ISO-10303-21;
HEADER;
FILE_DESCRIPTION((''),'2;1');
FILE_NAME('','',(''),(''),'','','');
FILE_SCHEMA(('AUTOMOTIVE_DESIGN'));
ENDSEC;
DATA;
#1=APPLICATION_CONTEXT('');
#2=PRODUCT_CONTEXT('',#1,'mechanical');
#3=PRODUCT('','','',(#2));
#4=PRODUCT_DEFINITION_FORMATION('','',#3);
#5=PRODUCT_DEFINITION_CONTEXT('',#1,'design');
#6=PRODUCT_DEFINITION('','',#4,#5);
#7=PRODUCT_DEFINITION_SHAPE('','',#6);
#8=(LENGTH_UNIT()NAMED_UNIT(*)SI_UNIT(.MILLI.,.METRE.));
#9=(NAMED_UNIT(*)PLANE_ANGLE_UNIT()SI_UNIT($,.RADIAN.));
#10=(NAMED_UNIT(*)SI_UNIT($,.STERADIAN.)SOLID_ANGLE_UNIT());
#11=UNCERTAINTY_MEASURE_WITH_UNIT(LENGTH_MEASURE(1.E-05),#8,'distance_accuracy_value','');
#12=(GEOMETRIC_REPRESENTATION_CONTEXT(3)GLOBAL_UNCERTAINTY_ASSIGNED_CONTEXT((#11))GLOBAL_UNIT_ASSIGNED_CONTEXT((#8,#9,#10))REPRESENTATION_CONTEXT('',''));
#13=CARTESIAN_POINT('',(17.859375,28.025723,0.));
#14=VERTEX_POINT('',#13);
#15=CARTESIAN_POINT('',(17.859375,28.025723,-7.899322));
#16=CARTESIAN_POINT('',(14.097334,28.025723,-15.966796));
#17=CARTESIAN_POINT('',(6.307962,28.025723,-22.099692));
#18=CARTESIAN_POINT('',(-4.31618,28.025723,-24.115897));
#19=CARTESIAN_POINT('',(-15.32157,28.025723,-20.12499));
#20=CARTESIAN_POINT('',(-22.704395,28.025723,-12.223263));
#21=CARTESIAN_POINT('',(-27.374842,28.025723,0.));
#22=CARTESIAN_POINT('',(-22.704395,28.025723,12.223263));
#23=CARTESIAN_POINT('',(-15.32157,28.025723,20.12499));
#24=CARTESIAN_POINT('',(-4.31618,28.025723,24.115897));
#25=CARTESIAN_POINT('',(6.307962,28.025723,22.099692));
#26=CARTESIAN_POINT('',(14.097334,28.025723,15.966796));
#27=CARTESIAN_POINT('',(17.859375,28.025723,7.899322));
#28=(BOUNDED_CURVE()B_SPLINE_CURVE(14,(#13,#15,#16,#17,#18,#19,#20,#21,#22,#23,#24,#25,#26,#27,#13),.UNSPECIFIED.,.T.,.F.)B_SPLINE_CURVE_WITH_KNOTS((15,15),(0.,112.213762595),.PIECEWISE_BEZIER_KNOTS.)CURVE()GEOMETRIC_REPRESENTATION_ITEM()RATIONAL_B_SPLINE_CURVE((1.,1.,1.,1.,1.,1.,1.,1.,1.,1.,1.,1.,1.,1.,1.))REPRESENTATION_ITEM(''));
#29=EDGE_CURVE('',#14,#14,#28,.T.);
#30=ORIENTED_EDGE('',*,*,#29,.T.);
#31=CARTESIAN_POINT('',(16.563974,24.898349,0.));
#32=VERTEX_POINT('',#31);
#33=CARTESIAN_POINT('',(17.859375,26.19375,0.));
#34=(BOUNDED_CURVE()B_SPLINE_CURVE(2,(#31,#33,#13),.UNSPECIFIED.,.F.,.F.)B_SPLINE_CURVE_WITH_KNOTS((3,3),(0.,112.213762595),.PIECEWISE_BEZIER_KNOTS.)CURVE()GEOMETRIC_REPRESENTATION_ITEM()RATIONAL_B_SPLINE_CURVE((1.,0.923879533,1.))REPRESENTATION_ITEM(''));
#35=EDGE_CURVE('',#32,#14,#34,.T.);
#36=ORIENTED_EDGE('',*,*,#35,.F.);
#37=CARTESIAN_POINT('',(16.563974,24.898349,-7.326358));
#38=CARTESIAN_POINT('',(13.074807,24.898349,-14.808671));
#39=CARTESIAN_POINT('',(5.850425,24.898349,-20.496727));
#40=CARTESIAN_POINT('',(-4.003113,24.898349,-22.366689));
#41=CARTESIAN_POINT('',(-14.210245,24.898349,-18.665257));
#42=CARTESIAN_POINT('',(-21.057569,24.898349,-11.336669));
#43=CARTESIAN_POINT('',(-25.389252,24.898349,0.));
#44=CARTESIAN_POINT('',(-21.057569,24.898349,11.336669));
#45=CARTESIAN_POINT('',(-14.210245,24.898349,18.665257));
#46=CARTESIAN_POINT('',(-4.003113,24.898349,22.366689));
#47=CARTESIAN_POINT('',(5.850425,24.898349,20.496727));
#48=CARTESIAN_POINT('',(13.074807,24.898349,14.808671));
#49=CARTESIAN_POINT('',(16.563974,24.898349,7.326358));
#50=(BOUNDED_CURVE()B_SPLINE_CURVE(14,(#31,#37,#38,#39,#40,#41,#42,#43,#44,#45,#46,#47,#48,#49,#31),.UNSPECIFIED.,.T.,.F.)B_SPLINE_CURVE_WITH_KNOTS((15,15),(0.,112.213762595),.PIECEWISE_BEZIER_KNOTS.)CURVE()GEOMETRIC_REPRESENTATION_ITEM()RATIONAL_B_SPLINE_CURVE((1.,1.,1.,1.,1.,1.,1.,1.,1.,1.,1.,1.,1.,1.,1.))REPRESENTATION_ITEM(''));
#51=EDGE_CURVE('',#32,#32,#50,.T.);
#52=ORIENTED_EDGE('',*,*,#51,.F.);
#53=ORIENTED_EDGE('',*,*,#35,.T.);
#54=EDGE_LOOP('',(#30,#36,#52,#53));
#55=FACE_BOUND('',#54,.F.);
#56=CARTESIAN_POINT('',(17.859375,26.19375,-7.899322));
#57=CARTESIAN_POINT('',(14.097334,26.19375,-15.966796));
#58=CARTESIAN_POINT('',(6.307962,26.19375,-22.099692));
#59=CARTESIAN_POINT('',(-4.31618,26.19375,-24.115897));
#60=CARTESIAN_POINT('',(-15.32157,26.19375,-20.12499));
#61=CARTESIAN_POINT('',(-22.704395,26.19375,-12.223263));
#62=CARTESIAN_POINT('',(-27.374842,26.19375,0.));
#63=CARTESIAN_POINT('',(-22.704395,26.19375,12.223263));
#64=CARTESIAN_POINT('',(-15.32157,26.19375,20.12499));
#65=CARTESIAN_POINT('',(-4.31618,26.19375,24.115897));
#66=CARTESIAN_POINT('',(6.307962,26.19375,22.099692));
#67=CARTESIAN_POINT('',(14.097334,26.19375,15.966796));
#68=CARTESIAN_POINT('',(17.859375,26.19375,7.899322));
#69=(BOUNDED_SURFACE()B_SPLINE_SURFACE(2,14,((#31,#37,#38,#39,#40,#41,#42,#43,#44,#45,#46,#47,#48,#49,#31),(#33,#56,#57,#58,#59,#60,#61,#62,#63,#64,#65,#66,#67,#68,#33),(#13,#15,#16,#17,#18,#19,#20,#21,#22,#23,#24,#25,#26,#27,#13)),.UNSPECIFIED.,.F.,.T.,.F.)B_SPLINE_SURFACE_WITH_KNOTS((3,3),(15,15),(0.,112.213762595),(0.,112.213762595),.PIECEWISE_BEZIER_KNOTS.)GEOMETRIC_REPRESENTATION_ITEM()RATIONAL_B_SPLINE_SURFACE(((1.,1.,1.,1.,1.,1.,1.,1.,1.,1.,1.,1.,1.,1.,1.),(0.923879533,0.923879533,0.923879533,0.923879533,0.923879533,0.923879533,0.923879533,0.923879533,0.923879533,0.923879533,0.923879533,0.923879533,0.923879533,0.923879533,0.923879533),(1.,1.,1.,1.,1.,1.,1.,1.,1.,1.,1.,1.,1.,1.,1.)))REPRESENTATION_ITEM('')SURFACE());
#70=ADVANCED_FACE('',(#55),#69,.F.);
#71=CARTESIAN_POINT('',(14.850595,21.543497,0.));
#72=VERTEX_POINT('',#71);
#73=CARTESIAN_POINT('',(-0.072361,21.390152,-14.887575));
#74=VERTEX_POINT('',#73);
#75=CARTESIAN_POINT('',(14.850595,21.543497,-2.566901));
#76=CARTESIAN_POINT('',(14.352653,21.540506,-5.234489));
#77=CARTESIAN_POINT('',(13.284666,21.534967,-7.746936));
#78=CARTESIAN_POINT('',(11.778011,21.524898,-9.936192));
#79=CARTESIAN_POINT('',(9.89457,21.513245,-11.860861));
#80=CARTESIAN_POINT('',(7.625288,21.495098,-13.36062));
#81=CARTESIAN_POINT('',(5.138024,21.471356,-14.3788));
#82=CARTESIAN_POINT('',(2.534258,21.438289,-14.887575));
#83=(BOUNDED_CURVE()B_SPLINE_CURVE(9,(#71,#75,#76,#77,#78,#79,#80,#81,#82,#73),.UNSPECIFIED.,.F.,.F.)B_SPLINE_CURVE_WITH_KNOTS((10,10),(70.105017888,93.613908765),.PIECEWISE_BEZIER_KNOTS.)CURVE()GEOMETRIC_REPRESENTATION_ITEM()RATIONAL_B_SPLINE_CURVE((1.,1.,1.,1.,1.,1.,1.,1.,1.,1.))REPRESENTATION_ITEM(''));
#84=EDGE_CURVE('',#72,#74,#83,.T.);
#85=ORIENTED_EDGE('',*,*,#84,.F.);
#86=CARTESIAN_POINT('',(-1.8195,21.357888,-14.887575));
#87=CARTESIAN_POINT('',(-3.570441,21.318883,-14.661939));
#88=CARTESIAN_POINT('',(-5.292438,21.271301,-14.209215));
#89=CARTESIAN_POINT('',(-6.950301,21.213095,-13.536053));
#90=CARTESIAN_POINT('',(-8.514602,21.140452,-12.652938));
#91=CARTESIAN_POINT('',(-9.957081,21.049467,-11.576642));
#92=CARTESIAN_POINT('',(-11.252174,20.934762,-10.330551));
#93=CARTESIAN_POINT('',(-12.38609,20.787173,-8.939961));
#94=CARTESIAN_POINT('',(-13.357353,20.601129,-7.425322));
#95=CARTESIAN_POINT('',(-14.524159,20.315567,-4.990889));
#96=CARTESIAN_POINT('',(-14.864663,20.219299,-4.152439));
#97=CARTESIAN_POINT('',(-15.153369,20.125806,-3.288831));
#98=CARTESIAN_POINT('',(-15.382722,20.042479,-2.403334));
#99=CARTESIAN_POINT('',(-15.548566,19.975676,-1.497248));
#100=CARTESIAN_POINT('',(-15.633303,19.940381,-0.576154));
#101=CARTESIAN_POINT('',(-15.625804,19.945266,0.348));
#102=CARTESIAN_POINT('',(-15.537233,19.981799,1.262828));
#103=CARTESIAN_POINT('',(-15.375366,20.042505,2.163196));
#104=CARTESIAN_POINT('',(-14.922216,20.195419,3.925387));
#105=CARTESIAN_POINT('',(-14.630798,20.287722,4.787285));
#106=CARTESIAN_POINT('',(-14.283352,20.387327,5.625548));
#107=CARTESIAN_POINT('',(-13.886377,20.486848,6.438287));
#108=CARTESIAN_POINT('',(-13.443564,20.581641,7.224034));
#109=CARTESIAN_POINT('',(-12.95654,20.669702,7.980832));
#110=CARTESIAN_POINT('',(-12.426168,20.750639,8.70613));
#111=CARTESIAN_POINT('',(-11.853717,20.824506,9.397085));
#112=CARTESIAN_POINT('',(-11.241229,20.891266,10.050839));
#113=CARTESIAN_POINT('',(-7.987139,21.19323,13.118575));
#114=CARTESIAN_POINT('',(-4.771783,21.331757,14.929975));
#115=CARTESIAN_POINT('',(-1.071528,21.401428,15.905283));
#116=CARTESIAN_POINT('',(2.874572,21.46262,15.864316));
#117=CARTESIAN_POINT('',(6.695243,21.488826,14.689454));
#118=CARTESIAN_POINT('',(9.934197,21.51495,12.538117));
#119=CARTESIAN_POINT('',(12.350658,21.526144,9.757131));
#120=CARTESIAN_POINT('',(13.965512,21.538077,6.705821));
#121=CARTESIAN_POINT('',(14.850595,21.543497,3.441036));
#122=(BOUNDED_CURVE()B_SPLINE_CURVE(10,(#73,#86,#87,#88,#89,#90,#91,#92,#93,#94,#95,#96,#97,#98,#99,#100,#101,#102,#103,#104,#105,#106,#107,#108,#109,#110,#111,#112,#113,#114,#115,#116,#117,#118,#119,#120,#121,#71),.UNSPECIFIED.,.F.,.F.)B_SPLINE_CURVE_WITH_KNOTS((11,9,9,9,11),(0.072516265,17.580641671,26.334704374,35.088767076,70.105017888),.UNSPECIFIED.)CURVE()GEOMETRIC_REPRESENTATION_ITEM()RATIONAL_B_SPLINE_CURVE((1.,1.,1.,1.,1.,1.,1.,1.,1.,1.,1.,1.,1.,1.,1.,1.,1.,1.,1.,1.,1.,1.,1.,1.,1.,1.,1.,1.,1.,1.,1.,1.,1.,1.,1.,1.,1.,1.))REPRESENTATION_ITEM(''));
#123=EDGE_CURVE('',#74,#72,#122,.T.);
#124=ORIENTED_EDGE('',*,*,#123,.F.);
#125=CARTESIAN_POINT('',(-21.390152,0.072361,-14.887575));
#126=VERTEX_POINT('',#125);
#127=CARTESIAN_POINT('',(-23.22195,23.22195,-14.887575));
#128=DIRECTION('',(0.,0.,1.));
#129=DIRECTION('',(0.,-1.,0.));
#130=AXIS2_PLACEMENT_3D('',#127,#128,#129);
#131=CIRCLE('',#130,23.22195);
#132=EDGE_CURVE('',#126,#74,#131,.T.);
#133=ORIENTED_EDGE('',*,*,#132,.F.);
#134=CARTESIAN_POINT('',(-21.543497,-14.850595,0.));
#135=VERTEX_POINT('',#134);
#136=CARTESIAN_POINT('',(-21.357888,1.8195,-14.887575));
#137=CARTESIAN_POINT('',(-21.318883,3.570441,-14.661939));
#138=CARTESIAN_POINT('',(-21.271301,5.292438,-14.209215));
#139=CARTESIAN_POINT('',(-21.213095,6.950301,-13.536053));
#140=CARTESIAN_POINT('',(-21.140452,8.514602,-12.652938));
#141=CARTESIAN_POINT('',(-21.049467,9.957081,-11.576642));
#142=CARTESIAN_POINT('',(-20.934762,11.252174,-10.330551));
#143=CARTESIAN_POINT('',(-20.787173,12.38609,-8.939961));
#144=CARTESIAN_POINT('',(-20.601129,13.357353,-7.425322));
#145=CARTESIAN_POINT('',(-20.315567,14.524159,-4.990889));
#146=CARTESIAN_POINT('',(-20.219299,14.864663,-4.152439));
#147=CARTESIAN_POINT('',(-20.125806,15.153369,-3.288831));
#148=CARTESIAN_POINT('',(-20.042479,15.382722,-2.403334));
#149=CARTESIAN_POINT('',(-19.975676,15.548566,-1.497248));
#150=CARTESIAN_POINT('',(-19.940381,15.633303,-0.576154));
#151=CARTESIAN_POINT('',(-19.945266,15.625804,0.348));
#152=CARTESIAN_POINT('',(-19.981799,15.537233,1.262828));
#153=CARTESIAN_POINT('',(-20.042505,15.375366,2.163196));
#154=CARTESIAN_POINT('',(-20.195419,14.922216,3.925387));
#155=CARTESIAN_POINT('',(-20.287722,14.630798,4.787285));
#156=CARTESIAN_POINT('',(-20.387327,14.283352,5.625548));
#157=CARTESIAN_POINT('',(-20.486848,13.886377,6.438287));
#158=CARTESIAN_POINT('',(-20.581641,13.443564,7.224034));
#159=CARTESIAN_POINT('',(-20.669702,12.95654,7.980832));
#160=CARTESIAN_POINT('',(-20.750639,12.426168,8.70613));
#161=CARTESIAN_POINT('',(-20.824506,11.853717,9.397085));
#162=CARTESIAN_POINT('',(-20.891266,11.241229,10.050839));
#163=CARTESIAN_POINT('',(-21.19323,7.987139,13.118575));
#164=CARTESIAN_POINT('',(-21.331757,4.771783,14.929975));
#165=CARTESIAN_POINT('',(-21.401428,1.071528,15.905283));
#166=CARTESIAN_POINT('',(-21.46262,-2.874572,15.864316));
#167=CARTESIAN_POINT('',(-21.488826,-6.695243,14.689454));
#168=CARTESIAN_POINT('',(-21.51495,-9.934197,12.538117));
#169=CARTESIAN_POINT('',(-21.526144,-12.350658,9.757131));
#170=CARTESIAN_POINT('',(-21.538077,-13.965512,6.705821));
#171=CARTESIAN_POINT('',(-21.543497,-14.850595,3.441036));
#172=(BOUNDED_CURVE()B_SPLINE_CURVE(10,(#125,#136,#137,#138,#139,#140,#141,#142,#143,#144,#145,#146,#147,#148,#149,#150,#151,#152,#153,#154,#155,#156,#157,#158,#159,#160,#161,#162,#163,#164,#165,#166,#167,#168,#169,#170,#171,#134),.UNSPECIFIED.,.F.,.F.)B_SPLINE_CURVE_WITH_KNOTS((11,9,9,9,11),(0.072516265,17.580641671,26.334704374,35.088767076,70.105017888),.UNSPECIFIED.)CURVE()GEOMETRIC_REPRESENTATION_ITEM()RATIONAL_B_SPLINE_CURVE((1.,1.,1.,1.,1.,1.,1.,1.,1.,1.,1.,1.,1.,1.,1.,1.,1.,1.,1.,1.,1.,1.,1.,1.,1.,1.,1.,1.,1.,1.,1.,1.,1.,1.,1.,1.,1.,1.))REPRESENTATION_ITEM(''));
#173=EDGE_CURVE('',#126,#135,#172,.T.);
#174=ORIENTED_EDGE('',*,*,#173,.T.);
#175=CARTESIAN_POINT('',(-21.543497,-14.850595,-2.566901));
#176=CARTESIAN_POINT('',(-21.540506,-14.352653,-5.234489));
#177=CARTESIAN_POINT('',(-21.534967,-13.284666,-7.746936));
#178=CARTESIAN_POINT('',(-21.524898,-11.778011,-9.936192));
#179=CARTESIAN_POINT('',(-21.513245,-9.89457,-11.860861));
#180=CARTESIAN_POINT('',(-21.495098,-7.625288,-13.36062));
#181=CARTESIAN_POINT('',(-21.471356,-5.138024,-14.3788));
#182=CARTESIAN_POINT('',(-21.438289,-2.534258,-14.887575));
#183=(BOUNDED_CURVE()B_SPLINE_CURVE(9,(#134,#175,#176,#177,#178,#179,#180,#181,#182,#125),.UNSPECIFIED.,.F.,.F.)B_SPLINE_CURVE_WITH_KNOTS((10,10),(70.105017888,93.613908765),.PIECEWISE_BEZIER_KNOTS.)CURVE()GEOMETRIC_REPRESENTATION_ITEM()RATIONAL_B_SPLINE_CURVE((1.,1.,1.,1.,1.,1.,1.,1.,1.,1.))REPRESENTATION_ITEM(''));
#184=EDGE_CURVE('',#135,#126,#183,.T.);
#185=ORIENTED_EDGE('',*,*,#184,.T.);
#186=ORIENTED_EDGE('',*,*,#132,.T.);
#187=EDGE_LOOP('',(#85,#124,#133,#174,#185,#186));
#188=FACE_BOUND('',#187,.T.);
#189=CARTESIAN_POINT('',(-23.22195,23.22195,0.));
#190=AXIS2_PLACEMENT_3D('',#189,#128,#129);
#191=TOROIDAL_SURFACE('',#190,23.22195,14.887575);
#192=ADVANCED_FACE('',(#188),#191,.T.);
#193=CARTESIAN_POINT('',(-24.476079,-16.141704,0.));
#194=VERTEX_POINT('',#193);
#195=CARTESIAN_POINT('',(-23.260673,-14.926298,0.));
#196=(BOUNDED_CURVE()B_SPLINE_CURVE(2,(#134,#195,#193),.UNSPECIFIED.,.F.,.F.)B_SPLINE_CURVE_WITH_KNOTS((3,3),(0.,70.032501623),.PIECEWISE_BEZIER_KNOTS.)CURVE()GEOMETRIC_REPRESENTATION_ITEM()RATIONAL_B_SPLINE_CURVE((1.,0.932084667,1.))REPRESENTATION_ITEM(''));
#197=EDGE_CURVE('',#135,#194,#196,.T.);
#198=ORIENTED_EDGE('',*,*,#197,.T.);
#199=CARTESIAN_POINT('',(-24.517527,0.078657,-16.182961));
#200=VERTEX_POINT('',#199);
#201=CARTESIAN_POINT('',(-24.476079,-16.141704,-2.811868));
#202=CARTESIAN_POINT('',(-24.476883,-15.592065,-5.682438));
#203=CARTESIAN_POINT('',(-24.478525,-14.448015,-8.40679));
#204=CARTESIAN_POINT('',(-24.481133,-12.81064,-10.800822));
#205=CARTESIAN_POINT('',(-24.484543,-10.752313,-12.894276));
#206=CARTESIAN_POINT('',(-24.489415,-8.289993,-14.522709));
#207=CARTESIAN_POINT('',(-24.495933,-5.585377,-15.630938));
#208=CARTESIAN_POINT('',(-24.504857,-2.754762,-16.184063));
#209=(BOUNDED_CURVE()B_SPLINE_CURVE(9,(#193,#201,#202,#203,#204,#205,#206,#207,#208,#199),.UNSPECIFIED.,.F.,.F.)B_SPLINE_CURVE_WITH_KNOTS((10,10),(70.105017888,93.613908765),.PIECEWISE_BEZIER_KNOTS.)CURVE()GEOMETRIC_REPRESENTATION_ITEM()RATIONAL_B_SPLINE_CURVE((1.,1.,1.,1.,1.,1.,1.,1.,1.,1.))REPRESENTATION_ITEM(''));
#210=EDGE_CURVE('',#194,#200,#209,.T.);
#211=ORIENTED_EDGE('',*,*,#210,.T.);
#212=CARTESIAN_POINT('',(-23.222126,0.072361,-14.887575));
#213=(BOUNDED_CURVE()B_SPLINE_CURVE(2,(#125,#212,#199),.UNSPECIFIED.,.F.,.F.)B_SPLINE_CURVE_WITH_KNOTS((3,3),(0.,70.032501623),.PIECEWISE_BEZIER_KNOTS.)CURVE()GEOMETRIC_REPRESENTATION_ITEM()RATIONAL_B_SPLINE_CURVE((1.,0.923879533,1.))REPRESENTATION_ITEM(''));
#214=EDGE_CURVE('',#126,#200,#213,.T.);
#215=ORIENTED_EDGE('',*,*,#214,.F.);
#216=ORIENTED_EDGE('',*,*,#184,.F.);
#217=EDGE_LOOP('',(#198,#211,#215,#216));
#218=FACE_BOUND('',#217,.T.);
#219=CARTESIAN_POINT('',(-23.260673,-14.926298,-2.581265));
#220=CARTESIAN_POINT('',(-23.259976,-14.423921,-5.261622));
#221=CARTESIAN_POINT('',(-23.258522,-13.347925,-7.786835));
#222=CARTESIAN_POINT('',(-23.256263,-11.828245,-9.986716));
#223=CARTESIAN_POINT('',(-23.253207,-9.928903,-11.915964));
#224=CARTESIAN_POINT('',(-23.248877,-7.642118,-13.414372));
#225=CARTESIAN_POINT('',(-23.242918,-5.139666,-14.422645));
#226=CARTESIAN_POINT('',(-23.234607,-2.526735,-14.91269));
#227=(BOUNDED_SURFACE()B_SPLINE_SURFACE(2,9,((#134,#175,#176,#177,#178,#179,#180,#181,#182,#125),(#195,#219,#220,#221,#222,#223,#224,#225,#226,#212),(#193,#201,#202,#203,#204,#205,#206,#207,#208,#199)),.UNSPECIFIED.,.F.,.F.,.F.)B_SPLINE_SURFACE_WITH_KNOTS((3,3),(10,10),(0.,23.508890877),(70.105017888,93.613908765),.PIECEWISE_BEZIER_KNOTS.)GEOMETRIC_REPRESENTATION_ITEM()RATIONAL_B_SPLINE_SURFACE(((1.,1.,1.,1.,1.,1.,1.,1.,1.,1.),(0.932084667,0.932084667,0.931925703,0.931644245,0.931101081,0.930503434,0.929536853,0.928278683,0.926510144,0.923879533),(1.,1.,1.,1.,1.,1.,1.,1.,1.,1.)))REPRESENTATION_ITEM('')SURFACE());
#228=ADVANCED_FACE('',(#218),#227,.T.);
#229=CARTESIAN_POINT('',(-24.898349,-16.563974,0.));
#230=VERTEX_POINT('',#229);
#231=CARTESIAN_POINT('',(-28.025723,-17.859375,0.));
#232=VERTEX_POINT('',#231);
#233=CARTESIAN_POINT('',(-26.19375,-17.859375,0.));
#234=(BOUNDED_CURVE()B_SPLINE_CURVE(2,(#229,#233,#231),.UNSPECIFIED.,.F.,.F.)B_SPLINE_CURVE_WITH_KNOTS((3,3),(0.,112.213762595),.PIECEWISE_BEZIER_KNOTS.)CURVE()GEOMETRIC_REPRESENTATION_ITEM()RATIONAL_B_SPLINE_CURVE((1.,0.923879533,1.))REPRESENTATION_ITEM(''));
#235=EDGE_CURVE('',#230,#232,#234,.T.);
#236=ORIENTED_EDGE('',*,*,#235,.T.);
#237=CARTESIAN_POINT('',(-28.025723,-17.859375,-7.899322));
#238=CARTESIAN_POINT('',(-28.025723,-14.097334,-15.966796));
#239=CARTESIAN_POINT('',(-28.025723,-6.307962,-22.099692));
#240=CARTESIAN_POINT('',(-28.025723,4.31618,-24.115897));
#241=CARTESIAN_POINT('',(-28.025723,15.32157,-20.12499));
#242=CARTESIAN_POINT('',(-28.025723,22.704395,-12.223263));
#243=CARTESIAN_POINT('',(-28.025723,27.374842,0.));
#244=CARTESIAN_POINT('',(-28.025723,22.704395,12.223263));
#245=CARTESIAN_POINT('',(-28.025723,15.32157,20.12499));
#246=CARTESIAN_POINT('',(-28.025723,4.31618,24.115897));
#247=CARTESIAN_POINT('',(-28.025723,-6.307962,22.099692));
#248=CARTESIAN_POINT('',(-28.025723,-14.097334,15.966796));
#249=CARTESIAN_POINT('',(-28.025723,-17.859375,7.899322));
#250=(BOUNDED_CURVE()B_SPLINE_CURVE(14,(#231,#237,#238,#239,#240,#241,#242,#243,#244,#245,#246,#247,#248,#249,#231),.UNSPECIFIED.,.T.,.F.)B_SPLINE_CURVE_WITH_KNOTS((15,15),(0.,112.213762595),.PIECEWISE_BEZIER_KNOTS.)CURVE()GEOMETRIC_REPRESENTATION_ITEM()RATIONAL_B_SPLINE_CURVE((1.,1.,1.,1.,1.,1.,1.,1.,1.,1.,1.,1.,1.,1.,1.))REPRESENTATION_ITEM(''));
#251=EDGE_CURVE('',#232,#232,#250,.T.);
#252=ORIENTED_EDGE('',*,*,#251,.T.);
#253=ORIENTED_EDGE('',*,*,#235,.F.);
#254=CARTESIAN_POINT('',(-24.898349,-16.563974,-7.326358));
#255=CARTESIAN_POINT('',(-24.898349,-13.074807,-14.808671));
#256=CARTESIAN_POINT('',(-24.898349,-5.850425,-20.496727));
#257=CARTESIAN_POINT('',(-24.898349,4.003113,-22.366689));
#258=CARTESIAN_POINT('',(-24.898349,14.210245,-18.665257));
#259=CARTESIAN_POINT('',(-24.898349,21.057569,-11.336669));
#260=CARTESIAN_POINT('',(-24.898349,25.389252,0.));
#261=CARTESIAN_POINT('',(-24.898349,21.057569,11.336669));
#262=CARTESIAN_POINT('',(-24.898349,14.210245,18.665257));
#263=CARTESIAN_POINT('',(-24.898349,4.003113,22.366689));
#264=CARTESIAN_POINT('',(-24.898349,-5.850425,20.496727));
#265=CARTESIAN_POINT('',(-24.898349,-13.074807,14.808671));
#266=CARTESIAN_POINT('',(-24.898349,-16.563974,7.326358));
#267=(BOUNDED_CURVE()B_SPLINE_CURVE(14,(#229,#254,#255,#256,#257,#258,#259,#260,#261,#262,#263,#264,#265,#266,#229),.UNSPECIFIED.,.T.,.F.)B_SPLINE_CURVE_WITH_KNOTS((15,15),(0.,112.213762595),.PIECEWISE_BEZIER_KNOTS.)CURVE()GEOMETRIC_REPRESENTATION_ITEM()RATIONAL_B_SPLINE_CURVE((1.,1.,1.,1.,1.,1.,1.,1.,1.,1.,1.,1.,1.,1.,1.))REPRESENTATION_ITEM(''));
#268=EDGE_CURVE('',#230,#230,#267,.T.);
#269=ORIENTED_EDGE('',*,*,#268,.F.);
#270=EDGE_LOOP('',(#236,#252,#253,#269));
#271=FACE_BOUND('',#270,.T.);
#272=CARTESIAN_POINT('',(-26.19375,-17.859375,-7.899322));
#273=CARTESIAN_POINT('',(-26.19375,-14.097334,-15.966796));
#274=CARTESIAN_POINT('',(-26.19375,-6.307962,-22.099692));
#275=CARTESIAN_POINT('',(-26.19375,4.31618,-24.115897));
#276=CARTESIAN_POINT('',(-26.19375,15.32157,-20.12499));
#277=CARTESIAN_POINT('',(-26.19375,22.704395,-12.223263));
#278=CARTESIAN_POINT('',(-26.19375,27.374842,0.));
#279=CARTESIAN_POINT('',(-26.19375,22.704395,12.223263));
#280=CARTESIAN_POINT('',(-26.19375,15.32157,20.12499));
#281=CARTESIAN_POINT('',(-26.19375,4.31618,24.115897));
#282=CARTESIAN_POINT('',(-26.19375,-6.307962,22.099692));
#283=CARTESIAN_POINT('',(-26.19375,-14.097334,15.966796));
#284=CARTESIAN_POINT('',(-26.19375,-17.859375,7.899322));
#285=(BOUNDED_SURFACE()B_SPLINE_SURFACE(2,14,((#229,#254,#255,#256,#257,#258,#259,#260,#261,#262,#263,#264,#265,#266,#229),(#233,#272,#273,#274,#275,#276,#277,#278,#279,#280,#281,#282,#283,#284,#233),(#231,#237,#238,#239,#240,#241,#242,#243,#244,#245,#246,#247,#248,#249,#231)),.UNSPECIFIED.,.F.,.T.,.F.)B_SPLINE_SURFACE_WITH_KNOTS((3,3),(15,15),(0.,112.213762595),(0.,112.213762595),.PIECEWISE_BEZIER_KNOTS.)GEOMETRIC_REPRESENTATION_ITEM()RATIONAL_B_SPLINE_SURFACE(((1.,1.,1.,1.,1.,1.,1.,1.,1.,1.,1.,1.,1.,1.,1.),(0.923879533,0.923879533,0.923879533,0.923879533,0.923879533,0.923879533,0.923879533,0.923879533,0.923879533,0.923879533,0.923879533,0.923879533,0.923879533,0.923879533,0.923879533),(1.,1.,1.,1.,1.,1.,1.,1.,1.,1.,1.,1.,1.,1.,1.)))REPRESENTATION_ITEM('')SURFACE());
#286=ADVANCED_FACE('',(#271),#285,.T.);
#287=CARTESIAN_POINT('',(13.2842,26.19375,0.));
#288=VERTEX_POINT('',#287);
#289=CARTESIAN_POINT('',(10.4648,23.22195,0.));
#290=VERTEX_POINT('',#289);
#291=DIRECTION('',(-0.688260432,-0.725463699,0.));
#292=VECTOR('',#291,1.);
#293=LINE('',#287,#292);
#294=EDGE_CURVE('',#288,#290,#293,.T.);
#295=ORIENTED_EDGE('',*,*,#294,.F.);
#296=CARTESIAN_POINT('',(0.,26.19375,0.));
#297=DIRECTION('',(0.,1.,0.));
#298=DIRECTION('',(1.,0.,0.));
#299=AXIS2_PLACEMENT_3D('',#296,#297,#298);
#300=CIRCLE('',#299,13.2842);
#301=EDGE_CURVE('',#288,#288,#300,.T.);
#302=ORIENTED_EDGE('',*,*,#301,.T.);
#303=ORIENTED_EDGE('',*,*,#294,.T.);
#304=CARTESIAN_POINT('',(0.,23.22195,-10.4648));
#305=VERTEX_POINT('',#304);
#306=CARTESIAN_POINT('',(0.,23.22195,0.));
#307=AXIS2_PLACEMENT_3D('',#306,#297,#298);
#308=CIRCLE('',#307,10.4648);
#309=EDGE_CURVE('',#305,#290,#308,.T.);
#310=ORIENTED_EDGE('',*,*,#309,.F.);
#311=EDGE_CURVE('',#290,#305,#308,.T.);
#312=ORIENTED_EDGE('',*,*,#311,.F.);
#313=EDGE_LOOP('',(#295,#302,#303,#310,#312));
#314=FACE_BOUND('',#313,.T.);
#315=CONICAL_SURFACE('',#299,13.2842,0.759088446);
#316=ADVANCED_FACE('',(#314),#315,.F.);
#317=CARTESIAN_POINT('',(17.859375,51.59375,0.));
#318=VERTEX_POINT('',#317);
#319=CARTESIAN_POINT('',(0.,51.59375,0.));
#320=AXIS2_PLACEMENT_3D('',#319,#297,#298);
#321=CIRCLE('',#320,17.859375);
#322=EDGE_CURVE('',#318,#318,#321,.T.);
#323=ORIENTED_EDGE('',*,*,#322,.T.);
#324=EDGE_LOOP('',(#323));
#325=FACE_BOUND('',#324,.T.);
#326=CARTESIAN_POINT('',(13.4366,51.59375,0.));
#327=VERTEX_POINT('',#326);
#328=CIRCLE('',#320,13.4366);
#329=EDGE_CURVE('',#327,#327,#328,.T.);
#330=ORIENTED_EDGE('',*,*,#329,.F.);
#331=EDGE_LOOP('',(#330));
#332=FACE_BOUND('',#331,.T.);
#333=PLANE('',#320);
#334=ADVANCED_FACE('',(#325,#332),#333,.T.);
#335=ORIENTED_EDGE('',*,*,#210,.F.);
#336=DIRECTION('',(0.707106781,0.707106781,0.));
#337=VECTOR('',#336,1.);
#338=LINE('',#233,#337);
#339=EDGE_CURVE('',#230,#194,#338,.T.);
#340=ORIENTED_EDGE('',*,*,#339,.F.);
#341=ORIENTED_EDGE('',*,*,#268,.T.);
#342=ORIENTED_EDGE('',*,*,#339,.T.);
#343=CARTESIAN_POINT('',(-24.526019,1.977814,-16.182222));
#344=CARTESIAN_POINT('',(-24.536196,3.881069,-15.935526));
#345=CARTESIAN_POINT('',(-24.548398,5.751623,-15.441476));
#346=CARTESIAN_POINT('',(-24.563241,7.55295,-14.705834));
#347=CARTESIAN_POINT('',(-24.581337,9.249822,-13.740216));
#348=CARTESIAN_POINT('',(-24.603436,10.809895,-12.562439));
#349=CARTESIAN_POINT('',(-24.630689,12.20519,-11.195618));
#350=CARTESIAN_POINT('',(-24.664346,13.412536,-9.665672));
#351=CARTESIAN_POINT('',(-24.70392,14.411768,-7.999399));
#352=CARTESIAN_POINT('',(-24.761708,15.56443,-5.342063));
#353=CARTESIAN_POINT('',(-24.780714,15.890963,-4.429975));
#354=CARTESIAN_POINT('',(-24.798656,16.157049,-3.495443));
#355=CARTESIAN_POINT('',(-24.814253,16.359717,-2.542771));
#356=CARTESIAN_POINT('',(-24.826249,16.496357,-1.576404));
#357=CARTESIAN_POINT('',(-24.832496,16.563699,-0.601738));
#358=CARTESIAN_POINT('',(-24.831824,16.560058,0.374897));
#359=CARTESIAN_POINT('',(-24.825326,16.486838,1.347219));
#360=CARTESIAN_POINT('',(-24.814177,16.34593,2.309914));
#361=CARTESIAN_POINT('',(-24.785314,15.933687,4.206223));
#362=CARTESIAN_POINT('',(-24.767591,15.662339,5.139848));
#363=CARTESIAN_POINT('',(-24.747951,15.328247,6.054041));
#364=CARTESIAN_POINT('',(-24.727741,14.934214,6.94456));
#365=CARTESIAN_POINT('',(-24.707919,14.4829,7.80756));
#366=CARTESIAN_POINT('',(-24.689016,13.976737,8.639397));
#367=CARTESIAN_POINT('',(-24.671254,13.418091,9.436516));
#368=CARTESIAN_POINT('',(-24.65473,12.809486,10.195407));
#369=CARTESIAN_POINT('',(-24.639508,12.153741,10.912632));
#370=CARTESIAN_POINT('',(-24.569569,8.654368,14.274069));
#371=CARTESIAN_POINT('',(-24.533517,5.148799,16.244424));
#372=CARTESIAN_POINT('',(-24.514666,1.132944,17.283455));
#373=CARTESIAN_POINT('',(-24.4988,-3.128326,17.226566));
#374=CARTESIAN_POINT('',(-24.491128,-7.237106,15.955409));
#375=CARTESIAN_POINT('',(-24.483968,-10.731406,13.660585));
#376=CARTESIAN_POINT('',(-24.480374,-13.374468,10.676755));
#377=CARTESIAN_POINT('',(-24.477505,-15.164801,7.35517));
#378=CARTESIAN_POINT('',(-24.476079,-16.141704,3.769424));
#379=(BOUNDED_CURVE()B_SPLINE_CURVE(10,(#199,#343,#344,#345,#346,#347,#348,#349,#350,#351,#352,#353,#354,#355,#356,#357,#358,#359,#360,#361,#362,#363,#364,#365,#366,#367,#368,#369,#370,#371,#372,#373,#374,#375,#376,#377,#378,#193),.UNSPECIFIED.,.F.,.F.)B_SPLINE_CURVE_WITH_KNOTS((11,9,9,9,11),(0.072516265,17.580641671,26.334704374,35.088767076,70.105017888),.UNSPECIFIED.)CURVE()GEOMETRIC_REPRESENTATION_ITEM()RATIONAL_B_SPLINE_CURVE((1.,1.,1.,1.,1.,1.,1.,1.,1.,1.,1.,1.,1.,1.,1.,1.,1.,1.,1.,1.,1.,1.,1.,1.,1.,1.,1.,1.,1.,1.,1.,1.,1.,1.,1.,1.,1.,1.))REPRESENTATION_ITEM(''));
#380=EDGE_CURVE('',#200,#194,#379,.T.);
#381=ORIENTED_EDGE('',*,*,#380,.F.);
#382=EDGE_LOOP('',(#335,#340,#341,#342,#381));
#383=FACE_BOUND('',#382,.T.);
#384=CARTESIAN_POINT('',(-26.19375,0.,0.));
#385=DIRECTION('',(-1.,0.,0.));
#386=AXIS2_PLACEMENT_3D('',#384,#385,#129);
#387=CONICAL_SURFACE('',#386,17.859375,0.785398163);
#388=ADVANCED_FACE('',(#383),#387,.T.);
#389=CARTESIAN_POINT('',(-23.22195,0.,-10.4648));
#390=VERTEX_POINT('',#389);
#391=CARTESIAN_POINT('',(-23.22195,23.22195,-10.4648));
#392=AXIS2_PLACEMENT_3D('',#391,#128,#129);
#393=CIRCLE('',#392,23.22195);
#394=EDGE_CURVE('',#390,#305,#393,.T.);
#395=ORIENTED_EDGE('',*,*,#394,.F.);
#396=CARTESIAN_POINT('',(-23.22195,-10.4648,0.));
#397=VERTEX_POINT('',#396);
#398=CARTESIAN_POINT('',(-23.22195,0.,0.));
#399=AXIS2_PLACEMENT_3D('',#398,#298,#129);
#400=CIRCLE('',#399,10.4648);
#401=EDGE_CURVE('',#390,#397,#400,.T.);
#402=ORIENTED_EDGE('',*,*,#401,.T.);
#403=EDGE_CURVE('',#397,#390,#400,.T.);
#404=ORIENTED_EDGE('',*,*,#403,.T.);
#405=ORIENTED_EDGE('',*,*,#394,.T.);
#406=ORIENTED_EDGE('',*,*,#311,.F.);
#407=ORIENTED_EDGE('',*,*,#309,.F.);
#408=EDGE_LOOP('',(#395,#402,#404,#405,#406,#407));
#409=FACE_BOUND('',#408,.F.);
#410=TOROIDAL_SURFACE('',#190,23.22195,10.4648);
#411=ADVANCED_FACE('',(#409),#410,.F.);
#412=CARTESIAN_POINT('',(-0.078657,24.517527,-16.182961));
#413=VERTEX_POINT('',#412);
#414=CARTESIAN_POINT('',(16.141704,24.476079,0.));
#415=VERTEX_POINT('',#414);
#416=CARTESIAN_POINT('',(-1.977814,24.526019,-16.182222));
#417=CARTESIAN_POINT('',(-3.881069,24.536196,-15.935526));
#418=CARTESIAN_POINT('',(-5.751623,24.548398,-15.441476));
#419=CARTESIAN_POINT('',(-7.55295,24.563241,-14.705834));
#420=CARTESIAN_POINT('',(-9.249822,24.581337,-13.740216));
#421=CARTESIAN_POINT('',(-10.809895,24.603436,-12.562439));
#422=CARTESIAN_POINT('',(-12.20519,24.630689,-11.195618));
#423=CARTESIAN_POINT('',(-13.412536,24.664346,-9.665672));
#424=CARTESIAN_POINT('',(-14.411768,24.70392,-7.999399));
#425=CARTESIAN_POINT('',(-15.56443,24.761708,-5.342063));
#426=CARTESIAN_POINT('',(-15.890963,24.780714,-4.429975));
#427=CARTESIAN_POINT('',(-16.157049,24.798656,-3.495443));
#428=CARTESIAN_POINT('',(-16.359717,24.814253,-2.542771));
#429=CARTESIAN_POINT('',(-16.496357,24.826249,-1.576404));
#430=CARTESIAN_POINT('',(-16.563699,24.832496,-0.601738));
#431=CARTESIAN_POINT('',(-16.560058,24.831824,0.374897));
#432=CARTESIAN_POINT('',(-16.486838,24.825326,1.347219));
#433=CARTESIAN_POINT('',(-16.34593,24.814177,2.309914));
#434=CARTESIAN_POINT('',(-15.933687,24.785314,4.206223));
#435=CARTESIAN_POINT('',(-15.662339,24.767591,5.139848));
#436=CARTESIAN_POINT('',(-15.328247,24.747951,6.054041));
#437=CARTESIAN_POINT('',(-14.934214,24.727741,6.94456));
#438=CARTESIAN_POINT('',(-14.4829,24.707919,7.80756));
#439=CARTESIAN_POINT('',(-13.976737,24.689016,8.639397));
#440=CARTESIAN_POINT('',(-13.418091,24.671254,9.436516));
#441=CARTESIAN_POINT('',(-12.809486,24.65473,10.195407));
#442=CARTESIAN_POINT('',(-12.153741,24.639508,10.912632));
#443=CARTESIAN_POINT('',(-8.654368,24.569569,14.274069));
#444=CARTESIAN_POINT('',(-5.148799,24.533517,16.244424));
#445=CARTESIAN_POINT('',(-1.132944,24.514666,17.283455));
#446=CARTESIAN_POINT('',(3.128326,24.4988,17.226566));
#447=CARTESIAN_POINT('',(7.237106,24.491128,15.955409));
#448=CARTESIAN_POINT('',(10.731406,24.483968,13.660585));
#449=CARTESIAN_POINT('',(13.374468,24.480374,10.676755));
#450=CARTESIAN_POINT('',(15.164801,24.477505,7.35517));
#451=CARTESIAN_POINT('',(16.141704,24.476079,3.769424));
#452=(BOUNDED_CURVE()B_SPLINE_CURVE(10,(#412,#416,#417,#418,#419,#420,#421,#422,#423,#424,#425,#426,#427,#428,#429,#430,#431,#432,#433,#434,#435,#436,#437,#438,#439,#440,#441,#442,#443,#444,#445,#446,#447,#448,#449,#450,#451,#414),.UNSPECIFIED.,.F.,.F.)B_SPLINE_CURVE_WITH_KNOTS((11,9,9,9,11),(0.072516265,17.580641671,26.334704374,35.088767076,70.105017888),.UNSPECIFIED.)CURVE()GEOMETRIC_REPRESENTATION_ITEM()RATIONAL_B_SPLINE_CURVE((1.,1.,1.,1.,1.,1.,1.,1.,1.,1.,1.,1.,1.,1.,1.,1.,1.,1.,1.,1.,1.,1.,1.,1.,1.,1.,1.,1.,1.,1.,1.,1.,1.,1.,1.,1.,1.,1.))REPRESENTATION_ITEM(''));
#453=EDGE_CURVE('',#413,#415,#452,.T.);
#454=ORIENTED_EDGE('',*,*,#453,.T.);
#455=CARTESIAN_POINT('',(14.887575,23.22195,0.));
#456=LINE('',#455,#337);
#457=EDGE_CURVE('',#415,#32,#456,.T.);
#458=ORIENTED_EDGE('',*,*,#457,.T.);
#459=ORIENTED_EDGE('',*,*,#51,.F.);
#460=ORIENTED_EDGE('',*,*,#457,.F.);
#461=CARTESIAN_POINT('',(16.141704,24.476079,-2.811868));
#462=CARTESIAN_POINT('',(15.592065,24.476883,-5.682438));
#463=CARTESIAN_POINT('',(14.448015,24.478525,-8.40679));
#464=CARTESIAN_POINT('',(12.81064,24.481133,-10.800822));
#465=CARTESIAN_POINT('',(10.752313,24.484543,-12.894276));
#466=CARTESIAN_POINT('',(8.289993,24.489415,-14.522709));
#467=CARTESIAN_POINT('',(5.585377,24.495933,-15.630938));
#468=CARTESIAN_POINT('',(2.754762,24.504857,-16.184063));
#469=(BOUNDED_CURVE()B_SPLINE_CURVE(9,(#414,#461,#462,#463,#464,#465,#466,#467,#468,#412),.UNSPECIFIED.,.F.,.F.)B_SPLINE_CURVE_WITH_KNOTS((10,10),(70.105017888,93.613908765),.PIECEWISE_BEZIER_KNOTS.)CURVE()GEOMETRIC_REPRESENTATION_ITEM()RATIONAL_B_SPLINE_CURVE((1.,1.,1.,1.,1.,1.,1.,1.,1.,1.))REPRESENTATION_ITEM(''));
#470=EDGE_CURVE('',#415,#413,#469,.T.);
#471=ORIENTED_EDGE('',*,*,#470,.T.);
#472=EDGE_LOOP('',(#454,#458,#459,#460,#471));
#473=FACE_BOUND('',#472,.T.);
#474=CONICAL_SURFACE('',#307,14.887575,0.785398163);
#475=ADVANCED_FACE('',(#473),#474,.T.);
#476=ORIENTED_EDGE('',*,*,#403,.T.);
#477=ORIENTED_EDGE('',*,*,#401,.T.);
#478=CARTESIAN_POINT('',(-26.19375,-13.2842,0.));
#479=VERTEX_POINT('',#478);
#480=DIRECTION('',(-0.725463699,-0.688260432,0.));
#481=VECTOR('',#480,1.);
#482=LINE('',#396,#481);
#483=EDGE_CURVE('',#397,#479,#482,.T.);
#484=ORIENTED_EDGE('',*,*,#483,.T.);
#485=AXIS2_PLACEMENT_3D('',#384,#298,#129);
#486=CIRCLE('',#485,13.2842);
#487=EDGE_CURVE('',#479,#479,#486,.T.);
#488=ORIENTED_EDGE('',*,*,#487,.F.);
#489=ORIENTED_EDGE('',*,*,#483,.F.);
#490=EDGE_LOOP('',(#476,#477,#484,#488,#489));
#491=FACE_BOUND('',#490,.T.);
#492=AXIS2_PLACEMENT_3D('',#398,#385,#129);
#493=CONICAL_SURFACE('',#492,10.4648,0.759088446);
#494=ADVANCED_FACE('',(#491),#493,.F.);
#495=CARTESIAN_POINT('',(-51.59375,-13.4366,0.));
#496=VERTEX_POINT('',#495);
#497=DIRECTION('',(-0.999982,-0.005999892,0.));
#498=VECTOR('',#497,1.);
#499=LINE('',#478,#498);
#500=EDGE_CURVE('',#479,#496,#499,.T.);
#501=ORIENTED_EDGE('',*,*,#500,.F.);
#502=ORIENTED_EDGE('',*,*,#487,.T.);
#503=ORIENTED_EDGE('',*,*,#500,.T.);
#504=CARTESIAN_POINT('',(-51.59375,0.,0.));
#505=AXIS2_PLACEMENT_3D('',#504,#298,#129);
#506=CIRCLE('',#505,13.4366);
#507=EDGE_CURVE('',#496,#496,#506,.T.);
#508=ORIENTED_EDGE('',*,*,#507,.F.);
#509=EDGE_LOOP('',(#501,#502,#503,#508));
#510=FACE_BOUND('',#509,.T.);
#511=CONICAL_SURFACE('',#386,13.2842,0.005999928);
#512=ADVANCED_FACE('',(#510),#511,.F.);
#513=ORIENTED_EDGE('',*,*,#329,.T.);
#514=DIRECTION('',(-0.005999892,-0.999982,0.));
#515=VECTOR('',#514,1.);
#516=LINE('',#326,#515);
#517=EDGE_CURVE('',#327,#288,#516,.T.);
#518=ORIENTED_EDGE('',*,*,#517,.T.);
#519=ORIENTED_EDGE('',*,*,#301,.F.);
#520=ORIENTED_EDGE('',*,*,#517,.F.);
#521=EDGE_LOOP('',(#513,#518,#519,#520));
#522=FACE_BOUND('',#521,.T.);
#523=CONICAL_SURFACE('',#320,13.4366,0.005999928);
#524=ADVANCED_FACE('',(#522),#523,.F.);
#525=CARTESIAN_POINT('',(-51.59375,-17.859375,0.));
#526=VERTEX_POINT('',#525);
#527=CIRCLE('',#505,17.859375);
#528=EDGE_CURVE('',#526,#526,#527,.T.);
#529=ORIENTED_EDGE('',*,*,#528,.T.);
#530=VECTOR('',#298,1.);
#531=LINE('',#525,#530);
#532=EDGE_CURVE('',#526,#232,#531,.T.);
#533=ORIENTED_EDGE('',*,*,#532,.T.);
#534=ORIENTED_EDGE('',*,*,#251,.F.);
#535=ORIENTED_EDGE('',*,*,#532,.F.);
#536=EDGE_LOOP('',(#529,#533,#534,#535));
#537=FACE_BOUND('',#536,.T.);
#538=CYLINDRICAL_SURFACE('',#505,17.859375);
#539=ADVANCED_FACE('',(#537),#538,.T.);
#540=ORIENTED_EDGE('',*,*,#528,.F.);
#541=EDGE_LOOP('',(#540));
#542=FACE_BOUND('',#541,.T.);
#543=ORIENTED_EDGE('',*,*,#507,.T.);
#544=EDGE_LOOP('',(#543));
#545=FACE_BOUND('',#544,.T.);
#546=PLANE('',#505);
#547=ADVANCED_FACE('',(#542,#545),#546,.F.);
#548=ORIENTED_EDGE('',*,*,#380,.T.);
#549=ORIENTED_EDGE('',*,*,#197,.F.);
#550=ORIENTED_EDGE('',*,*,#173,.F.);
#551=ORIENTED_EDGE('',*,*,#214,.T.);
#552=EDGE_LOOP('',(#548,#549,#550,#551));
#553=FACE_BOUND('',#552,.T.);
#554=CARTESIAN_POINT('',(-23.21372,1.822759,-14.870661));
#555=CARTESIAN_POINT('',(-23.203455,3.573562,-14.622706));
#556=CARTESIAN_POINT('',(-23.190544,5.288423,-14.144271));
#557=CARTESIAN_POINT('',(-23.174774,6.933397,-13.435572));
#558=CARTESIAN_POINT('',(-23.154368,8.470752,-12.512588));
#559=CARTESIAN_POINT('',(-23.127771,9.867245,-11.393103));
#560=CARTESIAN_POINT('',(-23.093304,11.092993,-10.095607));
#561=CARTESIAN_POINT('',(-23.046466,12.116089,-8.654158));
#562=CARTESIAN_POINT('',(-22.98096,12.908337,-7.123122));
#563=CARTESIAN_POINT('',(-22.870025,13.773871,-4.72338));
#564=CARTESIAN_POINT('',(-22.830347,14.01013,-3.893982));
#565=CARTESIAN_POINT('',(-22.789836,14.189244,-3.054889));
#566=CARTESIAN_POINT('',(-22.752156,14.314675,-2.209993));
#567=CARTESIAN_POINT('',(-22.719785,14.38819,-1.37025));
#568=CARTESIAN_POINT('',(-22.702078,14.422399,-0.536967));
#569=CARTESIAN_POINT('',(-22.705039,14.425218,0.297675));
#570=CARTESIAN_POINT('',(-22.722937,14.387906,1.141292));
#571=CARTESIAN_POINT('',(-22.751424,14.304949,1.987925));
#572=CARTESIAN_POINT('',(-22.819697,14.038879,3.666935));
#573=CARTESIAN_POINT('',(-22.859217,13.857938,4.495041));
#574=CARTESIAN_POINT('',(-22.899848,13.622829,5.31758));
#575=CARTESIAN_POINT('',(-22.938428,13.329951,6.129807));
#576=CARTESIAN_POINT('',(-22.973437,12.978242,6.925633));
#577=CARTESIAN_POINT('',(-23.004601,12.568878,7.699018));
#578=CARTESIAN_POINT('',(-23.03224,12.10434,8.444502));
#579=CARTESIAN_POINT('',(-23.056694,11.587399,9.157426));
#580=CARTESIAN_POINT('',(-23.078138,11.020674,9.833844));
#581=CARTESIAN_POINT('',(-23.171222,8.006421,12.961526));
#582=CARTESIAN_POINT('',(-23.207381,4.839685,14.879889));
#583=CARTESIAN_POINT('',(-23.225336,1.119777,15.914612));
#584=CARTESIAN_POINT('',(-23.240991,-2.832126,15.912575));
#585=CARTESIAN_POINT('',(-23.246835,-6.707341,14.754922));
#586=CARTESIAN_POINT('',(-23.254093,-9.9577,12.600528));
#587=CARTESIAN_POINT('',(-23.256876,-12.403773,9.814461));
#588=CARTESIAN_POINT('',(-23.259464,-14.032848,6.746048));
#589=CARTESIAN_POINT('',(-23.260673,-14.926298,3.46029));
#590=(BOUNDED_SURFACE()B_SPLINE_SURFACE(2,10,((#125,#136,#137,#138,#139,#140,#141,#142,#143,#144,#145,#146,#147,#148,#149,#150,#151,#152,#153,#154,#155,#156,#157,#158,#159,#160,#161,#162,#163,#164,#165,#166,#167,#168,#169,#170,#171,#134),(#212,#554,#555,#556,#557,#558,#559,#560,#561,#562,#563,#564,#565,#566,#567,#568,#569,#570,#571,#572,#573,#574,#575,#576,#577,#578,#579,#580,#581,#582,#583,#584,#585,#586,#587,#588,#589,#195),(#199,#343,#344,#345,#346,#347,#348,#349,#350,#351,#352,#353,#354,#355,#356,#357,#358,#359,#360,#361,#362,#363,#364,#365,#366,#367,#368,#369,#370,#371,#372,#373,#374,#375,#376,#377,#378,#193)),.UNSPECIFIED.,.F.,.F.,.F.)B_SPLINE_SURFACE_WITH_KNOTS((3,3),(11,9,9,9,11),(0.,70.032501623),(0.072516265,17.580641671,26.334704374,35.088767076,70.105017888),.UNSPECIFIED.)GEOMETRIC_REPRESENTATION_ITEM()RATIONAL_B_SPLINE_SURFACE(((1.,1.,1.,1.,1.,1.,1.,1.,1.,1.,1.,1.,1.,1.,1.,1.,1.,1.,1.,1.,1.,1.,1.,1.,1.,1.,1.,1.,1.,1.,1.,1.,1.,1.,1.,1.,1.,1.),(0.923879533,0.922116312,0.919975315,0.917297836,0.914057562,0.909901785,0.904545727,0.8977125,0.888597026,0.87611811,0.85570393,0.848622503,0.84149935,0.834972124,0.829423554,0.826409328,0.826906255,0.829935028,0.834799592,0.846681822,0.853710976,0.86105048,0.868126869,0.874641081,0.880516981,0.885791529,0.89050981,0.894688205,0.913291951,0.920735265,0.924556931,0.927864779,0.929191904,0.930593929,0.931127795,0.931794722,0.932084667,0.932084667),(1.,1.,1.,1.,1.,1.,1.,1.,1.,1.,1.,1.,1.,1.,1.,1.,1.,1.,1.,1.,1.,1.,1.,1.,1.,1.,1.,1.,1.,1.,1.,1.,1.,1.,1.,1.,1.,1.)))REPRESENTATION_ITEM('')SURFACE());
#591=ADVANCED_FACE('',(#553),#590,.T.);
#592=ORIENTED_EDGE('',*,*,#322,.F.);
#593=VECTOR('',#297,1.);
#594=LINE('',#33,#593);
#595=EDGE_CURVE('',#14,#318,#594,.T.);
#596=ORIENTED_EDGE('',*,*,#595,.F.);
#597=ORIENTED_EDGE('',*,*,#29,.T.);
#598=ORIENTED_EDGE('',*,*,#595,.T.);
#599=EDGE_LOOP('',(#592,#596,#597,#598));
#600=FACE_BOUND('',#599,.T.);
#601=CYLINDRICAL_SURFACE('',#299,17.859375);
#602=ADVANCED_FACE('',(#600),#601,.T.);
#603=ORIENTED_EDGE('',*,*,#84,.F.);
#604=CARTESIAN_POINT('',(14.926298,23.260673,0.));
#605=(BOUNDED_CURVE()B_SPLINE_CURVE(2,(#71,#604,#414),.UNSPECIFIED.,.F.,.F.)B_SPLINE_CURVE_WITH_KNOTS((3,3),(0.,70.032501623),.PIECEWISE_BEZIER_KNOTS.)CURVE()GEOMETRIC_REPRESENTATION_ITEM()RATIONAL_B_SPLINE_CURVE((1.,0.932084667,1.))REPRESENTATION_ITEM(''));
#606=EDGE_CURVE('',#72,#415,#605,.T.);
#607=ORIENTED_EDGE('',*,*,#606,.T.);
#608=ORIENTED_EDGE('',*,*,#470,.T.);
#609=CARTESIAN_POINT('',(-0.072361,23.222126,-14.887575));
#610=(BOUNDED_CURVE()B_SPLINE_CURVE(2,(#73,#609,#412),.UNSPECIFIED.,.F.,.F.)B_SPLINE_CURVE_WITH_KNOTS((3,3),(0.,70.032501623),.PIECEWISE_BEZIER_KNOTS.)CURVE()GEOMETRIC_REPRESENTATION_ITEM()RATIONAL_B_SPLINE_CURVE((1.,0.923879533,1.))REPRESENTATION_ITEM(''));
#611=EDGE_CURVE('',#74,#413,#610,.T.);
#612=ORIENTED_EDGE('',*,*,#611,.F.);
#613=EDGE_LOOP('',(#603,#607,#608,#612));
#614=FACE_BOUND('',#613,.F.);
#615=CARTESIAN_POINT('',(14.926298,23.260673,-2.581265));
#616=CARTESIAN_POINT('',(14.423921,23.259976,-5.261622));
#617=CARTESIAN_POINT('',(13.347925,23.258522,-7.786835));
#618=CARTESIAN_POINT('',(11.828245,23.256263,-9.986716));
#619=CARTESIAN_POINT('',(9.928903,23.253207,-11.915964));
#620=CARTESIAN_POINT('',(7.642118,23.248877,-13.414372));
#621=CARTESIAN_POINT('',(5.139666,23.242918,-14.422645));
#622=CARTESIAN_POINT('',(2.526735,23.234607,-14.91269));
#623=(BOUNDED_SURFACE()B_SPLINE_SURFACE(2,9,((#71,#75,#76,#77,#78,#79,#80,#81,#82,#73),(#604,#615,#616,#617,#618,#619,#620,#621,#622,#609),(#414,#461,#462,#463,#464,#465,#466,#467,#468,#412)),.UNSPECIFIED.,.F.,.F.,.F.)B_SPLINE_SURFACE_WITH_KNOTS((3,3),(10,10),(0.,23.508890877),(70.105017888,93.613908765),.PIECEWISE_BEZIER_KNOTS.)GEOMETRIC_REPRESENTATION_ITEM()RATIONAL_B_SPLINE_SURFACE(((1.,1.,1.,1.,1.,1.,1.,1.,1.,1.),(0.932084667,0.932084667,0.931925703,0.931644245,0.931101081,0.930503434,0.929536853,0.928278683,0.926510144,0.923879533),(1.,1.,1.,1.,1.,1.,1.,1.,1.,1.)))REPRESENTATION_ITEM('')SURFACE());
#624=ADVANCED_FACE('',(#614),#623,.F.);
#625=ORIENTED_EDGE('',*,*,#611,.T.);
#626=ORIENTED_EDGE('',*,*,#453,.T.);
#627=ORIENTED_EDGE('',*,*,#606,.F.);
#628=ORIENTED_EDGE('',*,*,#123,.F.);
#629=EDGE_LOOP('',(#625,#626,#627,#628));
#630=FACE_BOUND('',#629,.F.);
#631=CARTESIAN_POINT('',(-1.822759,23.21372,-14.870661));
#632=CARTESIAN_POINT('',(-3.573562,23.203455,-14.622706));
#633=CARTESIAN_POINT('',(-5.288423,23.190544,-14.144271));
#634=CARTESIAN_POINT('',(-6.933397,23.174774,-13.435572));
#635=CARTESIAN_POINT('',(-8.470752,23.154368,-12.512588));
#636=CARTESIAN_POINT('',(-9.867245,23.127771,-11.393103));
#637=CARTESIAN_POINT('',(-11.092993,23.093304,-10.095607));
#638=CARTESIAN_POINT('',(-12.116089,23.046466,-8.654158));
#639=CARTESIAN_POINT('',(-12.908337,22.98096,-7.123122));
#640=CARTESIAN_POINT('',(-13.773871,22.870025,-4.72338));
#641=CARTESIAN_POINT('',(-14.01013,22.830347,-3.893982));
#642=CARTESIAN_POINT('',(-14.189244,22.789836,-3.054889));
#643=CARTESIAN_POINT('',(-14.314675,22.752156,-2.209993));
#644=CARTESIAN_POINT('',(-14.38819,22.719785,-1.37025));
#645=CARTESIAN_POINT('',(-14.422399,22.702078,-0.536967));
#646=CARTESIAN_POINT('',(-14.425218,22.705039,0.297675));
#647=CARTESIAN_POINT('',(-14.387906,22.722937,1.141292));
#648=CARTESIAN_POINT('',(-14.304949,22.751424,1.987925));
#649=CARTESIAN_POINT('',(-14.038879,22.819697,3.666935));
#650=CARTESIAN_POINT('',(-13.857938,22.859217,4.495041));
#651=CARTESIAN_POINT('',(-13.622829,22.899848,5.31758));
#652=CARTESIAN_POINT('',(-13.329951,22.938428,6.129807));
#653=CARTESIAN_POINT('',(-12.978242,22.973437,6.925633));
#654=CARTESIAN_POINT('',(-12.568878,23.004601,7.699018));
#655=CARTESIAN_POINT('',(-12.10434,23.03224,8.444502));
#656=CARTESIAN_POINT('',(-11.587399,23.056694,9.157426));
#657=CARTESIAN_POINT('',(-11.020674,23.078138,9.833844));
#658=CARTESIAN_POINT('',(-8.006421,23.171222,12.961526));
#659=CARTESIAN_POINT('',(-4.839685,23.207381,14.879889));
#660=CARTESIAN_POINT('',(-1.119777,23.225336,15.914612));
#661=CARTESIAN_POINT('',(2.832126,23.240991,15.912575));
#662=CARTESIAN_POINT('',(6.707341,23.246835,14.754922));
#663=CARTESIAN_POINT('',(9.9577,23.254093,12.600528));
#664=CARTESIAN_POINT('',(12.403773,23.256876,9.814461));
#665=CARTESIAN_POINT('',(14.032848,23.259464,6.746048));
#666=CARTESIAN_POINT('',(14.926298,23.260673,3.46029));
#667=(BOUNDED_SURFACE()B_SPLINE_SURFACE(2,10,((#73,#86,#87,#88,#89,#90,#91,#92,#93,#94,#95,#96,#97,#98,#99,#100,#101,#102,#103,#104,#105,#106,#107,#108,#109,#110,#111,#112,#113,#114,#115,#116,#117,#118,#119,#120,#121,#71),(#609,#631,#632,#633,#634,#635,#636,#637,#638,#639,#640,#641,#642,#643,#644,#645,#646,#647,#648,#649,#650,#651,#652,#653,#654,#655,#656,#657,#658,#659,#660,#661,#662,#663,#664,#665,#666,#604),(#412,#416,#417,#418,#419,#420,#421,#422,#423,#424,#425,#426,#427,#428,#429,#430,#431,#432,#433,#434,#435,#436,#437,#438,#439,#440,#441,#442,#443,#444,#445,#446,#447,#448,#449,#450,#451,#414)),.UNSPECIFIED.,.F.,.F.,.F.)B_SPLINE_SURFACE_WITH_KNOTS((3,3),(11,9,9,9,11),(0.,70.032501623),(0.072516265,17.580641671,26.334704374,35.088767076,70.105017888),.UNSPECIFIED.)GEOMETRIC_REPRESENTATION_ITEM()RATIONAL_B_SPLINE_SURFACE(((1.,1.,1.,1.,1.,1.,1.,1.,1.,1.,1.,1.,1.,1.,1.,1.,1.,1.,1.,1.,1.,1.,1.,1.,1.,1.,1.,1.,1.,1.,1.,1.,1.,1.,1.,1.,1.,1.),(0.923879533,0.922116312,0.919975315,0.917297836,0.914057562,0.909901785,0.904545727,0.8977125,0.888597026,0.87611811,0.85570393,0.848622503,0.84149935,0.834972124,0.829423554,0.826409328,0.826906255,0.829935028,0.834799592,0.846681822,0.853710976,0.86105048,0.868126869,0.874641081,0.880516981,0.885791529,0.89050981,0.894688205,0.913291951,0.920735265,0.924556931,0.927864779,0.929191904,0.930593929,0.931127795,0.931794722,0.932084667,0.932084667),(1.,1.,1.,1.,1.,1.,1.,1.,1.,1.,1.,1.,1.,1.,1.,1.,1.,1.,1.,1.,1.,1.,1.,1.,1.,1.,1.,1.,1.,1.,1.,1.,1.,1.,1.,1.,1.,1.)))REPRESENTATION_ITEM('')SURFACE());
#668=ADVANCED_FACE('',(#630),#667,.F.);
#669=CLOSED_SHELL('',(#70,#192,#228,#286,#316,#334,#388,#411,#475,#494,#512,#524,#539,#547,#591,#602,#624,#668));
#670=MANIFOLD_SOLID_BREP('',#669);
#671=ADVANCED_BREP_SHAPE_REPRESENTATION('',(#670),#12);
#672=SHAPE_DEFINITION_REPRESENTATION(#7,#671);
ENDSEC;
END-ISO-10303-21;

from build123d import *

# Parameters (mm, degrees)
SKETCH3_R   = 14.887575
SKETCH3_R_2 = 10.4648
FILLET1_R   = 4.422775


with BuildPart() as part:
    # Sketch1 → Revolve1 (revolve)
    with BuildSketch(Plane.XY):
        Polygon((-26.19375, -17.859375), (-23.22195, -14.887575), (-23.22195, -10.4648), (-26.19375, -13.2842), (-51.59375, -13.4366), (-51.59375, -17.859375), align=None)
    revolve(axis=Axis((-51.59375, 0, 0), (1, 0, 0)))



with BuildPart() as body_2:
    # Sketch2 → Revolve2 (revolve)
    with BuildSketch(Plane.XY):
        Polygon((13.4366, 51.59375), (13.2842, 26.19375), (10.4648, 23.22195), (14.887575, 23.22195), (17.859375, 26.19375), (17.859375, 51.59375), align=None)
    revolve(axis=Axis((0, 0, 0), (0, 1, 0)))


with BuildPart() as part_1:
    add(part.part)

    add(body_2.part)  # Sweep1 merges body 2
    # Sweep1: sweep along a path in Sketch4
    with BuildLine(Plane.XY) as sweep1_path:
        ThreePointArc((-23.22195, 0), (-6.801551683, 6.801551683), (0, 23.22195))
    # Sketch3 → Sweep1 (sweep)
    with BuildSketch(Plane(origin=(-23.22195, 0, 0), x_dir=(0, 0, -1), z_dir=(1, 0, 0))):
        Circle(SKETCH3_R)
        Circle(SKETCH3_R_2, mode=Mode.SUBTRACT)
    sweep(path=sweep1_path.line)

    # Fillet1
    fillet1_edges = [part_1.edges().sort_by_distance(p)[0] for p in [
        (-23.22195, 10.527105238, 10.527105238),
        (-10.527105238, 23.22195, 10.527105238),
        (-17.859375, 26.19375, 0),
        (-26.19375, 17.859375, 0),
    ]]
    fillet(fillet1_edges, radius=FILLET1_R)


solid = part_1.part
